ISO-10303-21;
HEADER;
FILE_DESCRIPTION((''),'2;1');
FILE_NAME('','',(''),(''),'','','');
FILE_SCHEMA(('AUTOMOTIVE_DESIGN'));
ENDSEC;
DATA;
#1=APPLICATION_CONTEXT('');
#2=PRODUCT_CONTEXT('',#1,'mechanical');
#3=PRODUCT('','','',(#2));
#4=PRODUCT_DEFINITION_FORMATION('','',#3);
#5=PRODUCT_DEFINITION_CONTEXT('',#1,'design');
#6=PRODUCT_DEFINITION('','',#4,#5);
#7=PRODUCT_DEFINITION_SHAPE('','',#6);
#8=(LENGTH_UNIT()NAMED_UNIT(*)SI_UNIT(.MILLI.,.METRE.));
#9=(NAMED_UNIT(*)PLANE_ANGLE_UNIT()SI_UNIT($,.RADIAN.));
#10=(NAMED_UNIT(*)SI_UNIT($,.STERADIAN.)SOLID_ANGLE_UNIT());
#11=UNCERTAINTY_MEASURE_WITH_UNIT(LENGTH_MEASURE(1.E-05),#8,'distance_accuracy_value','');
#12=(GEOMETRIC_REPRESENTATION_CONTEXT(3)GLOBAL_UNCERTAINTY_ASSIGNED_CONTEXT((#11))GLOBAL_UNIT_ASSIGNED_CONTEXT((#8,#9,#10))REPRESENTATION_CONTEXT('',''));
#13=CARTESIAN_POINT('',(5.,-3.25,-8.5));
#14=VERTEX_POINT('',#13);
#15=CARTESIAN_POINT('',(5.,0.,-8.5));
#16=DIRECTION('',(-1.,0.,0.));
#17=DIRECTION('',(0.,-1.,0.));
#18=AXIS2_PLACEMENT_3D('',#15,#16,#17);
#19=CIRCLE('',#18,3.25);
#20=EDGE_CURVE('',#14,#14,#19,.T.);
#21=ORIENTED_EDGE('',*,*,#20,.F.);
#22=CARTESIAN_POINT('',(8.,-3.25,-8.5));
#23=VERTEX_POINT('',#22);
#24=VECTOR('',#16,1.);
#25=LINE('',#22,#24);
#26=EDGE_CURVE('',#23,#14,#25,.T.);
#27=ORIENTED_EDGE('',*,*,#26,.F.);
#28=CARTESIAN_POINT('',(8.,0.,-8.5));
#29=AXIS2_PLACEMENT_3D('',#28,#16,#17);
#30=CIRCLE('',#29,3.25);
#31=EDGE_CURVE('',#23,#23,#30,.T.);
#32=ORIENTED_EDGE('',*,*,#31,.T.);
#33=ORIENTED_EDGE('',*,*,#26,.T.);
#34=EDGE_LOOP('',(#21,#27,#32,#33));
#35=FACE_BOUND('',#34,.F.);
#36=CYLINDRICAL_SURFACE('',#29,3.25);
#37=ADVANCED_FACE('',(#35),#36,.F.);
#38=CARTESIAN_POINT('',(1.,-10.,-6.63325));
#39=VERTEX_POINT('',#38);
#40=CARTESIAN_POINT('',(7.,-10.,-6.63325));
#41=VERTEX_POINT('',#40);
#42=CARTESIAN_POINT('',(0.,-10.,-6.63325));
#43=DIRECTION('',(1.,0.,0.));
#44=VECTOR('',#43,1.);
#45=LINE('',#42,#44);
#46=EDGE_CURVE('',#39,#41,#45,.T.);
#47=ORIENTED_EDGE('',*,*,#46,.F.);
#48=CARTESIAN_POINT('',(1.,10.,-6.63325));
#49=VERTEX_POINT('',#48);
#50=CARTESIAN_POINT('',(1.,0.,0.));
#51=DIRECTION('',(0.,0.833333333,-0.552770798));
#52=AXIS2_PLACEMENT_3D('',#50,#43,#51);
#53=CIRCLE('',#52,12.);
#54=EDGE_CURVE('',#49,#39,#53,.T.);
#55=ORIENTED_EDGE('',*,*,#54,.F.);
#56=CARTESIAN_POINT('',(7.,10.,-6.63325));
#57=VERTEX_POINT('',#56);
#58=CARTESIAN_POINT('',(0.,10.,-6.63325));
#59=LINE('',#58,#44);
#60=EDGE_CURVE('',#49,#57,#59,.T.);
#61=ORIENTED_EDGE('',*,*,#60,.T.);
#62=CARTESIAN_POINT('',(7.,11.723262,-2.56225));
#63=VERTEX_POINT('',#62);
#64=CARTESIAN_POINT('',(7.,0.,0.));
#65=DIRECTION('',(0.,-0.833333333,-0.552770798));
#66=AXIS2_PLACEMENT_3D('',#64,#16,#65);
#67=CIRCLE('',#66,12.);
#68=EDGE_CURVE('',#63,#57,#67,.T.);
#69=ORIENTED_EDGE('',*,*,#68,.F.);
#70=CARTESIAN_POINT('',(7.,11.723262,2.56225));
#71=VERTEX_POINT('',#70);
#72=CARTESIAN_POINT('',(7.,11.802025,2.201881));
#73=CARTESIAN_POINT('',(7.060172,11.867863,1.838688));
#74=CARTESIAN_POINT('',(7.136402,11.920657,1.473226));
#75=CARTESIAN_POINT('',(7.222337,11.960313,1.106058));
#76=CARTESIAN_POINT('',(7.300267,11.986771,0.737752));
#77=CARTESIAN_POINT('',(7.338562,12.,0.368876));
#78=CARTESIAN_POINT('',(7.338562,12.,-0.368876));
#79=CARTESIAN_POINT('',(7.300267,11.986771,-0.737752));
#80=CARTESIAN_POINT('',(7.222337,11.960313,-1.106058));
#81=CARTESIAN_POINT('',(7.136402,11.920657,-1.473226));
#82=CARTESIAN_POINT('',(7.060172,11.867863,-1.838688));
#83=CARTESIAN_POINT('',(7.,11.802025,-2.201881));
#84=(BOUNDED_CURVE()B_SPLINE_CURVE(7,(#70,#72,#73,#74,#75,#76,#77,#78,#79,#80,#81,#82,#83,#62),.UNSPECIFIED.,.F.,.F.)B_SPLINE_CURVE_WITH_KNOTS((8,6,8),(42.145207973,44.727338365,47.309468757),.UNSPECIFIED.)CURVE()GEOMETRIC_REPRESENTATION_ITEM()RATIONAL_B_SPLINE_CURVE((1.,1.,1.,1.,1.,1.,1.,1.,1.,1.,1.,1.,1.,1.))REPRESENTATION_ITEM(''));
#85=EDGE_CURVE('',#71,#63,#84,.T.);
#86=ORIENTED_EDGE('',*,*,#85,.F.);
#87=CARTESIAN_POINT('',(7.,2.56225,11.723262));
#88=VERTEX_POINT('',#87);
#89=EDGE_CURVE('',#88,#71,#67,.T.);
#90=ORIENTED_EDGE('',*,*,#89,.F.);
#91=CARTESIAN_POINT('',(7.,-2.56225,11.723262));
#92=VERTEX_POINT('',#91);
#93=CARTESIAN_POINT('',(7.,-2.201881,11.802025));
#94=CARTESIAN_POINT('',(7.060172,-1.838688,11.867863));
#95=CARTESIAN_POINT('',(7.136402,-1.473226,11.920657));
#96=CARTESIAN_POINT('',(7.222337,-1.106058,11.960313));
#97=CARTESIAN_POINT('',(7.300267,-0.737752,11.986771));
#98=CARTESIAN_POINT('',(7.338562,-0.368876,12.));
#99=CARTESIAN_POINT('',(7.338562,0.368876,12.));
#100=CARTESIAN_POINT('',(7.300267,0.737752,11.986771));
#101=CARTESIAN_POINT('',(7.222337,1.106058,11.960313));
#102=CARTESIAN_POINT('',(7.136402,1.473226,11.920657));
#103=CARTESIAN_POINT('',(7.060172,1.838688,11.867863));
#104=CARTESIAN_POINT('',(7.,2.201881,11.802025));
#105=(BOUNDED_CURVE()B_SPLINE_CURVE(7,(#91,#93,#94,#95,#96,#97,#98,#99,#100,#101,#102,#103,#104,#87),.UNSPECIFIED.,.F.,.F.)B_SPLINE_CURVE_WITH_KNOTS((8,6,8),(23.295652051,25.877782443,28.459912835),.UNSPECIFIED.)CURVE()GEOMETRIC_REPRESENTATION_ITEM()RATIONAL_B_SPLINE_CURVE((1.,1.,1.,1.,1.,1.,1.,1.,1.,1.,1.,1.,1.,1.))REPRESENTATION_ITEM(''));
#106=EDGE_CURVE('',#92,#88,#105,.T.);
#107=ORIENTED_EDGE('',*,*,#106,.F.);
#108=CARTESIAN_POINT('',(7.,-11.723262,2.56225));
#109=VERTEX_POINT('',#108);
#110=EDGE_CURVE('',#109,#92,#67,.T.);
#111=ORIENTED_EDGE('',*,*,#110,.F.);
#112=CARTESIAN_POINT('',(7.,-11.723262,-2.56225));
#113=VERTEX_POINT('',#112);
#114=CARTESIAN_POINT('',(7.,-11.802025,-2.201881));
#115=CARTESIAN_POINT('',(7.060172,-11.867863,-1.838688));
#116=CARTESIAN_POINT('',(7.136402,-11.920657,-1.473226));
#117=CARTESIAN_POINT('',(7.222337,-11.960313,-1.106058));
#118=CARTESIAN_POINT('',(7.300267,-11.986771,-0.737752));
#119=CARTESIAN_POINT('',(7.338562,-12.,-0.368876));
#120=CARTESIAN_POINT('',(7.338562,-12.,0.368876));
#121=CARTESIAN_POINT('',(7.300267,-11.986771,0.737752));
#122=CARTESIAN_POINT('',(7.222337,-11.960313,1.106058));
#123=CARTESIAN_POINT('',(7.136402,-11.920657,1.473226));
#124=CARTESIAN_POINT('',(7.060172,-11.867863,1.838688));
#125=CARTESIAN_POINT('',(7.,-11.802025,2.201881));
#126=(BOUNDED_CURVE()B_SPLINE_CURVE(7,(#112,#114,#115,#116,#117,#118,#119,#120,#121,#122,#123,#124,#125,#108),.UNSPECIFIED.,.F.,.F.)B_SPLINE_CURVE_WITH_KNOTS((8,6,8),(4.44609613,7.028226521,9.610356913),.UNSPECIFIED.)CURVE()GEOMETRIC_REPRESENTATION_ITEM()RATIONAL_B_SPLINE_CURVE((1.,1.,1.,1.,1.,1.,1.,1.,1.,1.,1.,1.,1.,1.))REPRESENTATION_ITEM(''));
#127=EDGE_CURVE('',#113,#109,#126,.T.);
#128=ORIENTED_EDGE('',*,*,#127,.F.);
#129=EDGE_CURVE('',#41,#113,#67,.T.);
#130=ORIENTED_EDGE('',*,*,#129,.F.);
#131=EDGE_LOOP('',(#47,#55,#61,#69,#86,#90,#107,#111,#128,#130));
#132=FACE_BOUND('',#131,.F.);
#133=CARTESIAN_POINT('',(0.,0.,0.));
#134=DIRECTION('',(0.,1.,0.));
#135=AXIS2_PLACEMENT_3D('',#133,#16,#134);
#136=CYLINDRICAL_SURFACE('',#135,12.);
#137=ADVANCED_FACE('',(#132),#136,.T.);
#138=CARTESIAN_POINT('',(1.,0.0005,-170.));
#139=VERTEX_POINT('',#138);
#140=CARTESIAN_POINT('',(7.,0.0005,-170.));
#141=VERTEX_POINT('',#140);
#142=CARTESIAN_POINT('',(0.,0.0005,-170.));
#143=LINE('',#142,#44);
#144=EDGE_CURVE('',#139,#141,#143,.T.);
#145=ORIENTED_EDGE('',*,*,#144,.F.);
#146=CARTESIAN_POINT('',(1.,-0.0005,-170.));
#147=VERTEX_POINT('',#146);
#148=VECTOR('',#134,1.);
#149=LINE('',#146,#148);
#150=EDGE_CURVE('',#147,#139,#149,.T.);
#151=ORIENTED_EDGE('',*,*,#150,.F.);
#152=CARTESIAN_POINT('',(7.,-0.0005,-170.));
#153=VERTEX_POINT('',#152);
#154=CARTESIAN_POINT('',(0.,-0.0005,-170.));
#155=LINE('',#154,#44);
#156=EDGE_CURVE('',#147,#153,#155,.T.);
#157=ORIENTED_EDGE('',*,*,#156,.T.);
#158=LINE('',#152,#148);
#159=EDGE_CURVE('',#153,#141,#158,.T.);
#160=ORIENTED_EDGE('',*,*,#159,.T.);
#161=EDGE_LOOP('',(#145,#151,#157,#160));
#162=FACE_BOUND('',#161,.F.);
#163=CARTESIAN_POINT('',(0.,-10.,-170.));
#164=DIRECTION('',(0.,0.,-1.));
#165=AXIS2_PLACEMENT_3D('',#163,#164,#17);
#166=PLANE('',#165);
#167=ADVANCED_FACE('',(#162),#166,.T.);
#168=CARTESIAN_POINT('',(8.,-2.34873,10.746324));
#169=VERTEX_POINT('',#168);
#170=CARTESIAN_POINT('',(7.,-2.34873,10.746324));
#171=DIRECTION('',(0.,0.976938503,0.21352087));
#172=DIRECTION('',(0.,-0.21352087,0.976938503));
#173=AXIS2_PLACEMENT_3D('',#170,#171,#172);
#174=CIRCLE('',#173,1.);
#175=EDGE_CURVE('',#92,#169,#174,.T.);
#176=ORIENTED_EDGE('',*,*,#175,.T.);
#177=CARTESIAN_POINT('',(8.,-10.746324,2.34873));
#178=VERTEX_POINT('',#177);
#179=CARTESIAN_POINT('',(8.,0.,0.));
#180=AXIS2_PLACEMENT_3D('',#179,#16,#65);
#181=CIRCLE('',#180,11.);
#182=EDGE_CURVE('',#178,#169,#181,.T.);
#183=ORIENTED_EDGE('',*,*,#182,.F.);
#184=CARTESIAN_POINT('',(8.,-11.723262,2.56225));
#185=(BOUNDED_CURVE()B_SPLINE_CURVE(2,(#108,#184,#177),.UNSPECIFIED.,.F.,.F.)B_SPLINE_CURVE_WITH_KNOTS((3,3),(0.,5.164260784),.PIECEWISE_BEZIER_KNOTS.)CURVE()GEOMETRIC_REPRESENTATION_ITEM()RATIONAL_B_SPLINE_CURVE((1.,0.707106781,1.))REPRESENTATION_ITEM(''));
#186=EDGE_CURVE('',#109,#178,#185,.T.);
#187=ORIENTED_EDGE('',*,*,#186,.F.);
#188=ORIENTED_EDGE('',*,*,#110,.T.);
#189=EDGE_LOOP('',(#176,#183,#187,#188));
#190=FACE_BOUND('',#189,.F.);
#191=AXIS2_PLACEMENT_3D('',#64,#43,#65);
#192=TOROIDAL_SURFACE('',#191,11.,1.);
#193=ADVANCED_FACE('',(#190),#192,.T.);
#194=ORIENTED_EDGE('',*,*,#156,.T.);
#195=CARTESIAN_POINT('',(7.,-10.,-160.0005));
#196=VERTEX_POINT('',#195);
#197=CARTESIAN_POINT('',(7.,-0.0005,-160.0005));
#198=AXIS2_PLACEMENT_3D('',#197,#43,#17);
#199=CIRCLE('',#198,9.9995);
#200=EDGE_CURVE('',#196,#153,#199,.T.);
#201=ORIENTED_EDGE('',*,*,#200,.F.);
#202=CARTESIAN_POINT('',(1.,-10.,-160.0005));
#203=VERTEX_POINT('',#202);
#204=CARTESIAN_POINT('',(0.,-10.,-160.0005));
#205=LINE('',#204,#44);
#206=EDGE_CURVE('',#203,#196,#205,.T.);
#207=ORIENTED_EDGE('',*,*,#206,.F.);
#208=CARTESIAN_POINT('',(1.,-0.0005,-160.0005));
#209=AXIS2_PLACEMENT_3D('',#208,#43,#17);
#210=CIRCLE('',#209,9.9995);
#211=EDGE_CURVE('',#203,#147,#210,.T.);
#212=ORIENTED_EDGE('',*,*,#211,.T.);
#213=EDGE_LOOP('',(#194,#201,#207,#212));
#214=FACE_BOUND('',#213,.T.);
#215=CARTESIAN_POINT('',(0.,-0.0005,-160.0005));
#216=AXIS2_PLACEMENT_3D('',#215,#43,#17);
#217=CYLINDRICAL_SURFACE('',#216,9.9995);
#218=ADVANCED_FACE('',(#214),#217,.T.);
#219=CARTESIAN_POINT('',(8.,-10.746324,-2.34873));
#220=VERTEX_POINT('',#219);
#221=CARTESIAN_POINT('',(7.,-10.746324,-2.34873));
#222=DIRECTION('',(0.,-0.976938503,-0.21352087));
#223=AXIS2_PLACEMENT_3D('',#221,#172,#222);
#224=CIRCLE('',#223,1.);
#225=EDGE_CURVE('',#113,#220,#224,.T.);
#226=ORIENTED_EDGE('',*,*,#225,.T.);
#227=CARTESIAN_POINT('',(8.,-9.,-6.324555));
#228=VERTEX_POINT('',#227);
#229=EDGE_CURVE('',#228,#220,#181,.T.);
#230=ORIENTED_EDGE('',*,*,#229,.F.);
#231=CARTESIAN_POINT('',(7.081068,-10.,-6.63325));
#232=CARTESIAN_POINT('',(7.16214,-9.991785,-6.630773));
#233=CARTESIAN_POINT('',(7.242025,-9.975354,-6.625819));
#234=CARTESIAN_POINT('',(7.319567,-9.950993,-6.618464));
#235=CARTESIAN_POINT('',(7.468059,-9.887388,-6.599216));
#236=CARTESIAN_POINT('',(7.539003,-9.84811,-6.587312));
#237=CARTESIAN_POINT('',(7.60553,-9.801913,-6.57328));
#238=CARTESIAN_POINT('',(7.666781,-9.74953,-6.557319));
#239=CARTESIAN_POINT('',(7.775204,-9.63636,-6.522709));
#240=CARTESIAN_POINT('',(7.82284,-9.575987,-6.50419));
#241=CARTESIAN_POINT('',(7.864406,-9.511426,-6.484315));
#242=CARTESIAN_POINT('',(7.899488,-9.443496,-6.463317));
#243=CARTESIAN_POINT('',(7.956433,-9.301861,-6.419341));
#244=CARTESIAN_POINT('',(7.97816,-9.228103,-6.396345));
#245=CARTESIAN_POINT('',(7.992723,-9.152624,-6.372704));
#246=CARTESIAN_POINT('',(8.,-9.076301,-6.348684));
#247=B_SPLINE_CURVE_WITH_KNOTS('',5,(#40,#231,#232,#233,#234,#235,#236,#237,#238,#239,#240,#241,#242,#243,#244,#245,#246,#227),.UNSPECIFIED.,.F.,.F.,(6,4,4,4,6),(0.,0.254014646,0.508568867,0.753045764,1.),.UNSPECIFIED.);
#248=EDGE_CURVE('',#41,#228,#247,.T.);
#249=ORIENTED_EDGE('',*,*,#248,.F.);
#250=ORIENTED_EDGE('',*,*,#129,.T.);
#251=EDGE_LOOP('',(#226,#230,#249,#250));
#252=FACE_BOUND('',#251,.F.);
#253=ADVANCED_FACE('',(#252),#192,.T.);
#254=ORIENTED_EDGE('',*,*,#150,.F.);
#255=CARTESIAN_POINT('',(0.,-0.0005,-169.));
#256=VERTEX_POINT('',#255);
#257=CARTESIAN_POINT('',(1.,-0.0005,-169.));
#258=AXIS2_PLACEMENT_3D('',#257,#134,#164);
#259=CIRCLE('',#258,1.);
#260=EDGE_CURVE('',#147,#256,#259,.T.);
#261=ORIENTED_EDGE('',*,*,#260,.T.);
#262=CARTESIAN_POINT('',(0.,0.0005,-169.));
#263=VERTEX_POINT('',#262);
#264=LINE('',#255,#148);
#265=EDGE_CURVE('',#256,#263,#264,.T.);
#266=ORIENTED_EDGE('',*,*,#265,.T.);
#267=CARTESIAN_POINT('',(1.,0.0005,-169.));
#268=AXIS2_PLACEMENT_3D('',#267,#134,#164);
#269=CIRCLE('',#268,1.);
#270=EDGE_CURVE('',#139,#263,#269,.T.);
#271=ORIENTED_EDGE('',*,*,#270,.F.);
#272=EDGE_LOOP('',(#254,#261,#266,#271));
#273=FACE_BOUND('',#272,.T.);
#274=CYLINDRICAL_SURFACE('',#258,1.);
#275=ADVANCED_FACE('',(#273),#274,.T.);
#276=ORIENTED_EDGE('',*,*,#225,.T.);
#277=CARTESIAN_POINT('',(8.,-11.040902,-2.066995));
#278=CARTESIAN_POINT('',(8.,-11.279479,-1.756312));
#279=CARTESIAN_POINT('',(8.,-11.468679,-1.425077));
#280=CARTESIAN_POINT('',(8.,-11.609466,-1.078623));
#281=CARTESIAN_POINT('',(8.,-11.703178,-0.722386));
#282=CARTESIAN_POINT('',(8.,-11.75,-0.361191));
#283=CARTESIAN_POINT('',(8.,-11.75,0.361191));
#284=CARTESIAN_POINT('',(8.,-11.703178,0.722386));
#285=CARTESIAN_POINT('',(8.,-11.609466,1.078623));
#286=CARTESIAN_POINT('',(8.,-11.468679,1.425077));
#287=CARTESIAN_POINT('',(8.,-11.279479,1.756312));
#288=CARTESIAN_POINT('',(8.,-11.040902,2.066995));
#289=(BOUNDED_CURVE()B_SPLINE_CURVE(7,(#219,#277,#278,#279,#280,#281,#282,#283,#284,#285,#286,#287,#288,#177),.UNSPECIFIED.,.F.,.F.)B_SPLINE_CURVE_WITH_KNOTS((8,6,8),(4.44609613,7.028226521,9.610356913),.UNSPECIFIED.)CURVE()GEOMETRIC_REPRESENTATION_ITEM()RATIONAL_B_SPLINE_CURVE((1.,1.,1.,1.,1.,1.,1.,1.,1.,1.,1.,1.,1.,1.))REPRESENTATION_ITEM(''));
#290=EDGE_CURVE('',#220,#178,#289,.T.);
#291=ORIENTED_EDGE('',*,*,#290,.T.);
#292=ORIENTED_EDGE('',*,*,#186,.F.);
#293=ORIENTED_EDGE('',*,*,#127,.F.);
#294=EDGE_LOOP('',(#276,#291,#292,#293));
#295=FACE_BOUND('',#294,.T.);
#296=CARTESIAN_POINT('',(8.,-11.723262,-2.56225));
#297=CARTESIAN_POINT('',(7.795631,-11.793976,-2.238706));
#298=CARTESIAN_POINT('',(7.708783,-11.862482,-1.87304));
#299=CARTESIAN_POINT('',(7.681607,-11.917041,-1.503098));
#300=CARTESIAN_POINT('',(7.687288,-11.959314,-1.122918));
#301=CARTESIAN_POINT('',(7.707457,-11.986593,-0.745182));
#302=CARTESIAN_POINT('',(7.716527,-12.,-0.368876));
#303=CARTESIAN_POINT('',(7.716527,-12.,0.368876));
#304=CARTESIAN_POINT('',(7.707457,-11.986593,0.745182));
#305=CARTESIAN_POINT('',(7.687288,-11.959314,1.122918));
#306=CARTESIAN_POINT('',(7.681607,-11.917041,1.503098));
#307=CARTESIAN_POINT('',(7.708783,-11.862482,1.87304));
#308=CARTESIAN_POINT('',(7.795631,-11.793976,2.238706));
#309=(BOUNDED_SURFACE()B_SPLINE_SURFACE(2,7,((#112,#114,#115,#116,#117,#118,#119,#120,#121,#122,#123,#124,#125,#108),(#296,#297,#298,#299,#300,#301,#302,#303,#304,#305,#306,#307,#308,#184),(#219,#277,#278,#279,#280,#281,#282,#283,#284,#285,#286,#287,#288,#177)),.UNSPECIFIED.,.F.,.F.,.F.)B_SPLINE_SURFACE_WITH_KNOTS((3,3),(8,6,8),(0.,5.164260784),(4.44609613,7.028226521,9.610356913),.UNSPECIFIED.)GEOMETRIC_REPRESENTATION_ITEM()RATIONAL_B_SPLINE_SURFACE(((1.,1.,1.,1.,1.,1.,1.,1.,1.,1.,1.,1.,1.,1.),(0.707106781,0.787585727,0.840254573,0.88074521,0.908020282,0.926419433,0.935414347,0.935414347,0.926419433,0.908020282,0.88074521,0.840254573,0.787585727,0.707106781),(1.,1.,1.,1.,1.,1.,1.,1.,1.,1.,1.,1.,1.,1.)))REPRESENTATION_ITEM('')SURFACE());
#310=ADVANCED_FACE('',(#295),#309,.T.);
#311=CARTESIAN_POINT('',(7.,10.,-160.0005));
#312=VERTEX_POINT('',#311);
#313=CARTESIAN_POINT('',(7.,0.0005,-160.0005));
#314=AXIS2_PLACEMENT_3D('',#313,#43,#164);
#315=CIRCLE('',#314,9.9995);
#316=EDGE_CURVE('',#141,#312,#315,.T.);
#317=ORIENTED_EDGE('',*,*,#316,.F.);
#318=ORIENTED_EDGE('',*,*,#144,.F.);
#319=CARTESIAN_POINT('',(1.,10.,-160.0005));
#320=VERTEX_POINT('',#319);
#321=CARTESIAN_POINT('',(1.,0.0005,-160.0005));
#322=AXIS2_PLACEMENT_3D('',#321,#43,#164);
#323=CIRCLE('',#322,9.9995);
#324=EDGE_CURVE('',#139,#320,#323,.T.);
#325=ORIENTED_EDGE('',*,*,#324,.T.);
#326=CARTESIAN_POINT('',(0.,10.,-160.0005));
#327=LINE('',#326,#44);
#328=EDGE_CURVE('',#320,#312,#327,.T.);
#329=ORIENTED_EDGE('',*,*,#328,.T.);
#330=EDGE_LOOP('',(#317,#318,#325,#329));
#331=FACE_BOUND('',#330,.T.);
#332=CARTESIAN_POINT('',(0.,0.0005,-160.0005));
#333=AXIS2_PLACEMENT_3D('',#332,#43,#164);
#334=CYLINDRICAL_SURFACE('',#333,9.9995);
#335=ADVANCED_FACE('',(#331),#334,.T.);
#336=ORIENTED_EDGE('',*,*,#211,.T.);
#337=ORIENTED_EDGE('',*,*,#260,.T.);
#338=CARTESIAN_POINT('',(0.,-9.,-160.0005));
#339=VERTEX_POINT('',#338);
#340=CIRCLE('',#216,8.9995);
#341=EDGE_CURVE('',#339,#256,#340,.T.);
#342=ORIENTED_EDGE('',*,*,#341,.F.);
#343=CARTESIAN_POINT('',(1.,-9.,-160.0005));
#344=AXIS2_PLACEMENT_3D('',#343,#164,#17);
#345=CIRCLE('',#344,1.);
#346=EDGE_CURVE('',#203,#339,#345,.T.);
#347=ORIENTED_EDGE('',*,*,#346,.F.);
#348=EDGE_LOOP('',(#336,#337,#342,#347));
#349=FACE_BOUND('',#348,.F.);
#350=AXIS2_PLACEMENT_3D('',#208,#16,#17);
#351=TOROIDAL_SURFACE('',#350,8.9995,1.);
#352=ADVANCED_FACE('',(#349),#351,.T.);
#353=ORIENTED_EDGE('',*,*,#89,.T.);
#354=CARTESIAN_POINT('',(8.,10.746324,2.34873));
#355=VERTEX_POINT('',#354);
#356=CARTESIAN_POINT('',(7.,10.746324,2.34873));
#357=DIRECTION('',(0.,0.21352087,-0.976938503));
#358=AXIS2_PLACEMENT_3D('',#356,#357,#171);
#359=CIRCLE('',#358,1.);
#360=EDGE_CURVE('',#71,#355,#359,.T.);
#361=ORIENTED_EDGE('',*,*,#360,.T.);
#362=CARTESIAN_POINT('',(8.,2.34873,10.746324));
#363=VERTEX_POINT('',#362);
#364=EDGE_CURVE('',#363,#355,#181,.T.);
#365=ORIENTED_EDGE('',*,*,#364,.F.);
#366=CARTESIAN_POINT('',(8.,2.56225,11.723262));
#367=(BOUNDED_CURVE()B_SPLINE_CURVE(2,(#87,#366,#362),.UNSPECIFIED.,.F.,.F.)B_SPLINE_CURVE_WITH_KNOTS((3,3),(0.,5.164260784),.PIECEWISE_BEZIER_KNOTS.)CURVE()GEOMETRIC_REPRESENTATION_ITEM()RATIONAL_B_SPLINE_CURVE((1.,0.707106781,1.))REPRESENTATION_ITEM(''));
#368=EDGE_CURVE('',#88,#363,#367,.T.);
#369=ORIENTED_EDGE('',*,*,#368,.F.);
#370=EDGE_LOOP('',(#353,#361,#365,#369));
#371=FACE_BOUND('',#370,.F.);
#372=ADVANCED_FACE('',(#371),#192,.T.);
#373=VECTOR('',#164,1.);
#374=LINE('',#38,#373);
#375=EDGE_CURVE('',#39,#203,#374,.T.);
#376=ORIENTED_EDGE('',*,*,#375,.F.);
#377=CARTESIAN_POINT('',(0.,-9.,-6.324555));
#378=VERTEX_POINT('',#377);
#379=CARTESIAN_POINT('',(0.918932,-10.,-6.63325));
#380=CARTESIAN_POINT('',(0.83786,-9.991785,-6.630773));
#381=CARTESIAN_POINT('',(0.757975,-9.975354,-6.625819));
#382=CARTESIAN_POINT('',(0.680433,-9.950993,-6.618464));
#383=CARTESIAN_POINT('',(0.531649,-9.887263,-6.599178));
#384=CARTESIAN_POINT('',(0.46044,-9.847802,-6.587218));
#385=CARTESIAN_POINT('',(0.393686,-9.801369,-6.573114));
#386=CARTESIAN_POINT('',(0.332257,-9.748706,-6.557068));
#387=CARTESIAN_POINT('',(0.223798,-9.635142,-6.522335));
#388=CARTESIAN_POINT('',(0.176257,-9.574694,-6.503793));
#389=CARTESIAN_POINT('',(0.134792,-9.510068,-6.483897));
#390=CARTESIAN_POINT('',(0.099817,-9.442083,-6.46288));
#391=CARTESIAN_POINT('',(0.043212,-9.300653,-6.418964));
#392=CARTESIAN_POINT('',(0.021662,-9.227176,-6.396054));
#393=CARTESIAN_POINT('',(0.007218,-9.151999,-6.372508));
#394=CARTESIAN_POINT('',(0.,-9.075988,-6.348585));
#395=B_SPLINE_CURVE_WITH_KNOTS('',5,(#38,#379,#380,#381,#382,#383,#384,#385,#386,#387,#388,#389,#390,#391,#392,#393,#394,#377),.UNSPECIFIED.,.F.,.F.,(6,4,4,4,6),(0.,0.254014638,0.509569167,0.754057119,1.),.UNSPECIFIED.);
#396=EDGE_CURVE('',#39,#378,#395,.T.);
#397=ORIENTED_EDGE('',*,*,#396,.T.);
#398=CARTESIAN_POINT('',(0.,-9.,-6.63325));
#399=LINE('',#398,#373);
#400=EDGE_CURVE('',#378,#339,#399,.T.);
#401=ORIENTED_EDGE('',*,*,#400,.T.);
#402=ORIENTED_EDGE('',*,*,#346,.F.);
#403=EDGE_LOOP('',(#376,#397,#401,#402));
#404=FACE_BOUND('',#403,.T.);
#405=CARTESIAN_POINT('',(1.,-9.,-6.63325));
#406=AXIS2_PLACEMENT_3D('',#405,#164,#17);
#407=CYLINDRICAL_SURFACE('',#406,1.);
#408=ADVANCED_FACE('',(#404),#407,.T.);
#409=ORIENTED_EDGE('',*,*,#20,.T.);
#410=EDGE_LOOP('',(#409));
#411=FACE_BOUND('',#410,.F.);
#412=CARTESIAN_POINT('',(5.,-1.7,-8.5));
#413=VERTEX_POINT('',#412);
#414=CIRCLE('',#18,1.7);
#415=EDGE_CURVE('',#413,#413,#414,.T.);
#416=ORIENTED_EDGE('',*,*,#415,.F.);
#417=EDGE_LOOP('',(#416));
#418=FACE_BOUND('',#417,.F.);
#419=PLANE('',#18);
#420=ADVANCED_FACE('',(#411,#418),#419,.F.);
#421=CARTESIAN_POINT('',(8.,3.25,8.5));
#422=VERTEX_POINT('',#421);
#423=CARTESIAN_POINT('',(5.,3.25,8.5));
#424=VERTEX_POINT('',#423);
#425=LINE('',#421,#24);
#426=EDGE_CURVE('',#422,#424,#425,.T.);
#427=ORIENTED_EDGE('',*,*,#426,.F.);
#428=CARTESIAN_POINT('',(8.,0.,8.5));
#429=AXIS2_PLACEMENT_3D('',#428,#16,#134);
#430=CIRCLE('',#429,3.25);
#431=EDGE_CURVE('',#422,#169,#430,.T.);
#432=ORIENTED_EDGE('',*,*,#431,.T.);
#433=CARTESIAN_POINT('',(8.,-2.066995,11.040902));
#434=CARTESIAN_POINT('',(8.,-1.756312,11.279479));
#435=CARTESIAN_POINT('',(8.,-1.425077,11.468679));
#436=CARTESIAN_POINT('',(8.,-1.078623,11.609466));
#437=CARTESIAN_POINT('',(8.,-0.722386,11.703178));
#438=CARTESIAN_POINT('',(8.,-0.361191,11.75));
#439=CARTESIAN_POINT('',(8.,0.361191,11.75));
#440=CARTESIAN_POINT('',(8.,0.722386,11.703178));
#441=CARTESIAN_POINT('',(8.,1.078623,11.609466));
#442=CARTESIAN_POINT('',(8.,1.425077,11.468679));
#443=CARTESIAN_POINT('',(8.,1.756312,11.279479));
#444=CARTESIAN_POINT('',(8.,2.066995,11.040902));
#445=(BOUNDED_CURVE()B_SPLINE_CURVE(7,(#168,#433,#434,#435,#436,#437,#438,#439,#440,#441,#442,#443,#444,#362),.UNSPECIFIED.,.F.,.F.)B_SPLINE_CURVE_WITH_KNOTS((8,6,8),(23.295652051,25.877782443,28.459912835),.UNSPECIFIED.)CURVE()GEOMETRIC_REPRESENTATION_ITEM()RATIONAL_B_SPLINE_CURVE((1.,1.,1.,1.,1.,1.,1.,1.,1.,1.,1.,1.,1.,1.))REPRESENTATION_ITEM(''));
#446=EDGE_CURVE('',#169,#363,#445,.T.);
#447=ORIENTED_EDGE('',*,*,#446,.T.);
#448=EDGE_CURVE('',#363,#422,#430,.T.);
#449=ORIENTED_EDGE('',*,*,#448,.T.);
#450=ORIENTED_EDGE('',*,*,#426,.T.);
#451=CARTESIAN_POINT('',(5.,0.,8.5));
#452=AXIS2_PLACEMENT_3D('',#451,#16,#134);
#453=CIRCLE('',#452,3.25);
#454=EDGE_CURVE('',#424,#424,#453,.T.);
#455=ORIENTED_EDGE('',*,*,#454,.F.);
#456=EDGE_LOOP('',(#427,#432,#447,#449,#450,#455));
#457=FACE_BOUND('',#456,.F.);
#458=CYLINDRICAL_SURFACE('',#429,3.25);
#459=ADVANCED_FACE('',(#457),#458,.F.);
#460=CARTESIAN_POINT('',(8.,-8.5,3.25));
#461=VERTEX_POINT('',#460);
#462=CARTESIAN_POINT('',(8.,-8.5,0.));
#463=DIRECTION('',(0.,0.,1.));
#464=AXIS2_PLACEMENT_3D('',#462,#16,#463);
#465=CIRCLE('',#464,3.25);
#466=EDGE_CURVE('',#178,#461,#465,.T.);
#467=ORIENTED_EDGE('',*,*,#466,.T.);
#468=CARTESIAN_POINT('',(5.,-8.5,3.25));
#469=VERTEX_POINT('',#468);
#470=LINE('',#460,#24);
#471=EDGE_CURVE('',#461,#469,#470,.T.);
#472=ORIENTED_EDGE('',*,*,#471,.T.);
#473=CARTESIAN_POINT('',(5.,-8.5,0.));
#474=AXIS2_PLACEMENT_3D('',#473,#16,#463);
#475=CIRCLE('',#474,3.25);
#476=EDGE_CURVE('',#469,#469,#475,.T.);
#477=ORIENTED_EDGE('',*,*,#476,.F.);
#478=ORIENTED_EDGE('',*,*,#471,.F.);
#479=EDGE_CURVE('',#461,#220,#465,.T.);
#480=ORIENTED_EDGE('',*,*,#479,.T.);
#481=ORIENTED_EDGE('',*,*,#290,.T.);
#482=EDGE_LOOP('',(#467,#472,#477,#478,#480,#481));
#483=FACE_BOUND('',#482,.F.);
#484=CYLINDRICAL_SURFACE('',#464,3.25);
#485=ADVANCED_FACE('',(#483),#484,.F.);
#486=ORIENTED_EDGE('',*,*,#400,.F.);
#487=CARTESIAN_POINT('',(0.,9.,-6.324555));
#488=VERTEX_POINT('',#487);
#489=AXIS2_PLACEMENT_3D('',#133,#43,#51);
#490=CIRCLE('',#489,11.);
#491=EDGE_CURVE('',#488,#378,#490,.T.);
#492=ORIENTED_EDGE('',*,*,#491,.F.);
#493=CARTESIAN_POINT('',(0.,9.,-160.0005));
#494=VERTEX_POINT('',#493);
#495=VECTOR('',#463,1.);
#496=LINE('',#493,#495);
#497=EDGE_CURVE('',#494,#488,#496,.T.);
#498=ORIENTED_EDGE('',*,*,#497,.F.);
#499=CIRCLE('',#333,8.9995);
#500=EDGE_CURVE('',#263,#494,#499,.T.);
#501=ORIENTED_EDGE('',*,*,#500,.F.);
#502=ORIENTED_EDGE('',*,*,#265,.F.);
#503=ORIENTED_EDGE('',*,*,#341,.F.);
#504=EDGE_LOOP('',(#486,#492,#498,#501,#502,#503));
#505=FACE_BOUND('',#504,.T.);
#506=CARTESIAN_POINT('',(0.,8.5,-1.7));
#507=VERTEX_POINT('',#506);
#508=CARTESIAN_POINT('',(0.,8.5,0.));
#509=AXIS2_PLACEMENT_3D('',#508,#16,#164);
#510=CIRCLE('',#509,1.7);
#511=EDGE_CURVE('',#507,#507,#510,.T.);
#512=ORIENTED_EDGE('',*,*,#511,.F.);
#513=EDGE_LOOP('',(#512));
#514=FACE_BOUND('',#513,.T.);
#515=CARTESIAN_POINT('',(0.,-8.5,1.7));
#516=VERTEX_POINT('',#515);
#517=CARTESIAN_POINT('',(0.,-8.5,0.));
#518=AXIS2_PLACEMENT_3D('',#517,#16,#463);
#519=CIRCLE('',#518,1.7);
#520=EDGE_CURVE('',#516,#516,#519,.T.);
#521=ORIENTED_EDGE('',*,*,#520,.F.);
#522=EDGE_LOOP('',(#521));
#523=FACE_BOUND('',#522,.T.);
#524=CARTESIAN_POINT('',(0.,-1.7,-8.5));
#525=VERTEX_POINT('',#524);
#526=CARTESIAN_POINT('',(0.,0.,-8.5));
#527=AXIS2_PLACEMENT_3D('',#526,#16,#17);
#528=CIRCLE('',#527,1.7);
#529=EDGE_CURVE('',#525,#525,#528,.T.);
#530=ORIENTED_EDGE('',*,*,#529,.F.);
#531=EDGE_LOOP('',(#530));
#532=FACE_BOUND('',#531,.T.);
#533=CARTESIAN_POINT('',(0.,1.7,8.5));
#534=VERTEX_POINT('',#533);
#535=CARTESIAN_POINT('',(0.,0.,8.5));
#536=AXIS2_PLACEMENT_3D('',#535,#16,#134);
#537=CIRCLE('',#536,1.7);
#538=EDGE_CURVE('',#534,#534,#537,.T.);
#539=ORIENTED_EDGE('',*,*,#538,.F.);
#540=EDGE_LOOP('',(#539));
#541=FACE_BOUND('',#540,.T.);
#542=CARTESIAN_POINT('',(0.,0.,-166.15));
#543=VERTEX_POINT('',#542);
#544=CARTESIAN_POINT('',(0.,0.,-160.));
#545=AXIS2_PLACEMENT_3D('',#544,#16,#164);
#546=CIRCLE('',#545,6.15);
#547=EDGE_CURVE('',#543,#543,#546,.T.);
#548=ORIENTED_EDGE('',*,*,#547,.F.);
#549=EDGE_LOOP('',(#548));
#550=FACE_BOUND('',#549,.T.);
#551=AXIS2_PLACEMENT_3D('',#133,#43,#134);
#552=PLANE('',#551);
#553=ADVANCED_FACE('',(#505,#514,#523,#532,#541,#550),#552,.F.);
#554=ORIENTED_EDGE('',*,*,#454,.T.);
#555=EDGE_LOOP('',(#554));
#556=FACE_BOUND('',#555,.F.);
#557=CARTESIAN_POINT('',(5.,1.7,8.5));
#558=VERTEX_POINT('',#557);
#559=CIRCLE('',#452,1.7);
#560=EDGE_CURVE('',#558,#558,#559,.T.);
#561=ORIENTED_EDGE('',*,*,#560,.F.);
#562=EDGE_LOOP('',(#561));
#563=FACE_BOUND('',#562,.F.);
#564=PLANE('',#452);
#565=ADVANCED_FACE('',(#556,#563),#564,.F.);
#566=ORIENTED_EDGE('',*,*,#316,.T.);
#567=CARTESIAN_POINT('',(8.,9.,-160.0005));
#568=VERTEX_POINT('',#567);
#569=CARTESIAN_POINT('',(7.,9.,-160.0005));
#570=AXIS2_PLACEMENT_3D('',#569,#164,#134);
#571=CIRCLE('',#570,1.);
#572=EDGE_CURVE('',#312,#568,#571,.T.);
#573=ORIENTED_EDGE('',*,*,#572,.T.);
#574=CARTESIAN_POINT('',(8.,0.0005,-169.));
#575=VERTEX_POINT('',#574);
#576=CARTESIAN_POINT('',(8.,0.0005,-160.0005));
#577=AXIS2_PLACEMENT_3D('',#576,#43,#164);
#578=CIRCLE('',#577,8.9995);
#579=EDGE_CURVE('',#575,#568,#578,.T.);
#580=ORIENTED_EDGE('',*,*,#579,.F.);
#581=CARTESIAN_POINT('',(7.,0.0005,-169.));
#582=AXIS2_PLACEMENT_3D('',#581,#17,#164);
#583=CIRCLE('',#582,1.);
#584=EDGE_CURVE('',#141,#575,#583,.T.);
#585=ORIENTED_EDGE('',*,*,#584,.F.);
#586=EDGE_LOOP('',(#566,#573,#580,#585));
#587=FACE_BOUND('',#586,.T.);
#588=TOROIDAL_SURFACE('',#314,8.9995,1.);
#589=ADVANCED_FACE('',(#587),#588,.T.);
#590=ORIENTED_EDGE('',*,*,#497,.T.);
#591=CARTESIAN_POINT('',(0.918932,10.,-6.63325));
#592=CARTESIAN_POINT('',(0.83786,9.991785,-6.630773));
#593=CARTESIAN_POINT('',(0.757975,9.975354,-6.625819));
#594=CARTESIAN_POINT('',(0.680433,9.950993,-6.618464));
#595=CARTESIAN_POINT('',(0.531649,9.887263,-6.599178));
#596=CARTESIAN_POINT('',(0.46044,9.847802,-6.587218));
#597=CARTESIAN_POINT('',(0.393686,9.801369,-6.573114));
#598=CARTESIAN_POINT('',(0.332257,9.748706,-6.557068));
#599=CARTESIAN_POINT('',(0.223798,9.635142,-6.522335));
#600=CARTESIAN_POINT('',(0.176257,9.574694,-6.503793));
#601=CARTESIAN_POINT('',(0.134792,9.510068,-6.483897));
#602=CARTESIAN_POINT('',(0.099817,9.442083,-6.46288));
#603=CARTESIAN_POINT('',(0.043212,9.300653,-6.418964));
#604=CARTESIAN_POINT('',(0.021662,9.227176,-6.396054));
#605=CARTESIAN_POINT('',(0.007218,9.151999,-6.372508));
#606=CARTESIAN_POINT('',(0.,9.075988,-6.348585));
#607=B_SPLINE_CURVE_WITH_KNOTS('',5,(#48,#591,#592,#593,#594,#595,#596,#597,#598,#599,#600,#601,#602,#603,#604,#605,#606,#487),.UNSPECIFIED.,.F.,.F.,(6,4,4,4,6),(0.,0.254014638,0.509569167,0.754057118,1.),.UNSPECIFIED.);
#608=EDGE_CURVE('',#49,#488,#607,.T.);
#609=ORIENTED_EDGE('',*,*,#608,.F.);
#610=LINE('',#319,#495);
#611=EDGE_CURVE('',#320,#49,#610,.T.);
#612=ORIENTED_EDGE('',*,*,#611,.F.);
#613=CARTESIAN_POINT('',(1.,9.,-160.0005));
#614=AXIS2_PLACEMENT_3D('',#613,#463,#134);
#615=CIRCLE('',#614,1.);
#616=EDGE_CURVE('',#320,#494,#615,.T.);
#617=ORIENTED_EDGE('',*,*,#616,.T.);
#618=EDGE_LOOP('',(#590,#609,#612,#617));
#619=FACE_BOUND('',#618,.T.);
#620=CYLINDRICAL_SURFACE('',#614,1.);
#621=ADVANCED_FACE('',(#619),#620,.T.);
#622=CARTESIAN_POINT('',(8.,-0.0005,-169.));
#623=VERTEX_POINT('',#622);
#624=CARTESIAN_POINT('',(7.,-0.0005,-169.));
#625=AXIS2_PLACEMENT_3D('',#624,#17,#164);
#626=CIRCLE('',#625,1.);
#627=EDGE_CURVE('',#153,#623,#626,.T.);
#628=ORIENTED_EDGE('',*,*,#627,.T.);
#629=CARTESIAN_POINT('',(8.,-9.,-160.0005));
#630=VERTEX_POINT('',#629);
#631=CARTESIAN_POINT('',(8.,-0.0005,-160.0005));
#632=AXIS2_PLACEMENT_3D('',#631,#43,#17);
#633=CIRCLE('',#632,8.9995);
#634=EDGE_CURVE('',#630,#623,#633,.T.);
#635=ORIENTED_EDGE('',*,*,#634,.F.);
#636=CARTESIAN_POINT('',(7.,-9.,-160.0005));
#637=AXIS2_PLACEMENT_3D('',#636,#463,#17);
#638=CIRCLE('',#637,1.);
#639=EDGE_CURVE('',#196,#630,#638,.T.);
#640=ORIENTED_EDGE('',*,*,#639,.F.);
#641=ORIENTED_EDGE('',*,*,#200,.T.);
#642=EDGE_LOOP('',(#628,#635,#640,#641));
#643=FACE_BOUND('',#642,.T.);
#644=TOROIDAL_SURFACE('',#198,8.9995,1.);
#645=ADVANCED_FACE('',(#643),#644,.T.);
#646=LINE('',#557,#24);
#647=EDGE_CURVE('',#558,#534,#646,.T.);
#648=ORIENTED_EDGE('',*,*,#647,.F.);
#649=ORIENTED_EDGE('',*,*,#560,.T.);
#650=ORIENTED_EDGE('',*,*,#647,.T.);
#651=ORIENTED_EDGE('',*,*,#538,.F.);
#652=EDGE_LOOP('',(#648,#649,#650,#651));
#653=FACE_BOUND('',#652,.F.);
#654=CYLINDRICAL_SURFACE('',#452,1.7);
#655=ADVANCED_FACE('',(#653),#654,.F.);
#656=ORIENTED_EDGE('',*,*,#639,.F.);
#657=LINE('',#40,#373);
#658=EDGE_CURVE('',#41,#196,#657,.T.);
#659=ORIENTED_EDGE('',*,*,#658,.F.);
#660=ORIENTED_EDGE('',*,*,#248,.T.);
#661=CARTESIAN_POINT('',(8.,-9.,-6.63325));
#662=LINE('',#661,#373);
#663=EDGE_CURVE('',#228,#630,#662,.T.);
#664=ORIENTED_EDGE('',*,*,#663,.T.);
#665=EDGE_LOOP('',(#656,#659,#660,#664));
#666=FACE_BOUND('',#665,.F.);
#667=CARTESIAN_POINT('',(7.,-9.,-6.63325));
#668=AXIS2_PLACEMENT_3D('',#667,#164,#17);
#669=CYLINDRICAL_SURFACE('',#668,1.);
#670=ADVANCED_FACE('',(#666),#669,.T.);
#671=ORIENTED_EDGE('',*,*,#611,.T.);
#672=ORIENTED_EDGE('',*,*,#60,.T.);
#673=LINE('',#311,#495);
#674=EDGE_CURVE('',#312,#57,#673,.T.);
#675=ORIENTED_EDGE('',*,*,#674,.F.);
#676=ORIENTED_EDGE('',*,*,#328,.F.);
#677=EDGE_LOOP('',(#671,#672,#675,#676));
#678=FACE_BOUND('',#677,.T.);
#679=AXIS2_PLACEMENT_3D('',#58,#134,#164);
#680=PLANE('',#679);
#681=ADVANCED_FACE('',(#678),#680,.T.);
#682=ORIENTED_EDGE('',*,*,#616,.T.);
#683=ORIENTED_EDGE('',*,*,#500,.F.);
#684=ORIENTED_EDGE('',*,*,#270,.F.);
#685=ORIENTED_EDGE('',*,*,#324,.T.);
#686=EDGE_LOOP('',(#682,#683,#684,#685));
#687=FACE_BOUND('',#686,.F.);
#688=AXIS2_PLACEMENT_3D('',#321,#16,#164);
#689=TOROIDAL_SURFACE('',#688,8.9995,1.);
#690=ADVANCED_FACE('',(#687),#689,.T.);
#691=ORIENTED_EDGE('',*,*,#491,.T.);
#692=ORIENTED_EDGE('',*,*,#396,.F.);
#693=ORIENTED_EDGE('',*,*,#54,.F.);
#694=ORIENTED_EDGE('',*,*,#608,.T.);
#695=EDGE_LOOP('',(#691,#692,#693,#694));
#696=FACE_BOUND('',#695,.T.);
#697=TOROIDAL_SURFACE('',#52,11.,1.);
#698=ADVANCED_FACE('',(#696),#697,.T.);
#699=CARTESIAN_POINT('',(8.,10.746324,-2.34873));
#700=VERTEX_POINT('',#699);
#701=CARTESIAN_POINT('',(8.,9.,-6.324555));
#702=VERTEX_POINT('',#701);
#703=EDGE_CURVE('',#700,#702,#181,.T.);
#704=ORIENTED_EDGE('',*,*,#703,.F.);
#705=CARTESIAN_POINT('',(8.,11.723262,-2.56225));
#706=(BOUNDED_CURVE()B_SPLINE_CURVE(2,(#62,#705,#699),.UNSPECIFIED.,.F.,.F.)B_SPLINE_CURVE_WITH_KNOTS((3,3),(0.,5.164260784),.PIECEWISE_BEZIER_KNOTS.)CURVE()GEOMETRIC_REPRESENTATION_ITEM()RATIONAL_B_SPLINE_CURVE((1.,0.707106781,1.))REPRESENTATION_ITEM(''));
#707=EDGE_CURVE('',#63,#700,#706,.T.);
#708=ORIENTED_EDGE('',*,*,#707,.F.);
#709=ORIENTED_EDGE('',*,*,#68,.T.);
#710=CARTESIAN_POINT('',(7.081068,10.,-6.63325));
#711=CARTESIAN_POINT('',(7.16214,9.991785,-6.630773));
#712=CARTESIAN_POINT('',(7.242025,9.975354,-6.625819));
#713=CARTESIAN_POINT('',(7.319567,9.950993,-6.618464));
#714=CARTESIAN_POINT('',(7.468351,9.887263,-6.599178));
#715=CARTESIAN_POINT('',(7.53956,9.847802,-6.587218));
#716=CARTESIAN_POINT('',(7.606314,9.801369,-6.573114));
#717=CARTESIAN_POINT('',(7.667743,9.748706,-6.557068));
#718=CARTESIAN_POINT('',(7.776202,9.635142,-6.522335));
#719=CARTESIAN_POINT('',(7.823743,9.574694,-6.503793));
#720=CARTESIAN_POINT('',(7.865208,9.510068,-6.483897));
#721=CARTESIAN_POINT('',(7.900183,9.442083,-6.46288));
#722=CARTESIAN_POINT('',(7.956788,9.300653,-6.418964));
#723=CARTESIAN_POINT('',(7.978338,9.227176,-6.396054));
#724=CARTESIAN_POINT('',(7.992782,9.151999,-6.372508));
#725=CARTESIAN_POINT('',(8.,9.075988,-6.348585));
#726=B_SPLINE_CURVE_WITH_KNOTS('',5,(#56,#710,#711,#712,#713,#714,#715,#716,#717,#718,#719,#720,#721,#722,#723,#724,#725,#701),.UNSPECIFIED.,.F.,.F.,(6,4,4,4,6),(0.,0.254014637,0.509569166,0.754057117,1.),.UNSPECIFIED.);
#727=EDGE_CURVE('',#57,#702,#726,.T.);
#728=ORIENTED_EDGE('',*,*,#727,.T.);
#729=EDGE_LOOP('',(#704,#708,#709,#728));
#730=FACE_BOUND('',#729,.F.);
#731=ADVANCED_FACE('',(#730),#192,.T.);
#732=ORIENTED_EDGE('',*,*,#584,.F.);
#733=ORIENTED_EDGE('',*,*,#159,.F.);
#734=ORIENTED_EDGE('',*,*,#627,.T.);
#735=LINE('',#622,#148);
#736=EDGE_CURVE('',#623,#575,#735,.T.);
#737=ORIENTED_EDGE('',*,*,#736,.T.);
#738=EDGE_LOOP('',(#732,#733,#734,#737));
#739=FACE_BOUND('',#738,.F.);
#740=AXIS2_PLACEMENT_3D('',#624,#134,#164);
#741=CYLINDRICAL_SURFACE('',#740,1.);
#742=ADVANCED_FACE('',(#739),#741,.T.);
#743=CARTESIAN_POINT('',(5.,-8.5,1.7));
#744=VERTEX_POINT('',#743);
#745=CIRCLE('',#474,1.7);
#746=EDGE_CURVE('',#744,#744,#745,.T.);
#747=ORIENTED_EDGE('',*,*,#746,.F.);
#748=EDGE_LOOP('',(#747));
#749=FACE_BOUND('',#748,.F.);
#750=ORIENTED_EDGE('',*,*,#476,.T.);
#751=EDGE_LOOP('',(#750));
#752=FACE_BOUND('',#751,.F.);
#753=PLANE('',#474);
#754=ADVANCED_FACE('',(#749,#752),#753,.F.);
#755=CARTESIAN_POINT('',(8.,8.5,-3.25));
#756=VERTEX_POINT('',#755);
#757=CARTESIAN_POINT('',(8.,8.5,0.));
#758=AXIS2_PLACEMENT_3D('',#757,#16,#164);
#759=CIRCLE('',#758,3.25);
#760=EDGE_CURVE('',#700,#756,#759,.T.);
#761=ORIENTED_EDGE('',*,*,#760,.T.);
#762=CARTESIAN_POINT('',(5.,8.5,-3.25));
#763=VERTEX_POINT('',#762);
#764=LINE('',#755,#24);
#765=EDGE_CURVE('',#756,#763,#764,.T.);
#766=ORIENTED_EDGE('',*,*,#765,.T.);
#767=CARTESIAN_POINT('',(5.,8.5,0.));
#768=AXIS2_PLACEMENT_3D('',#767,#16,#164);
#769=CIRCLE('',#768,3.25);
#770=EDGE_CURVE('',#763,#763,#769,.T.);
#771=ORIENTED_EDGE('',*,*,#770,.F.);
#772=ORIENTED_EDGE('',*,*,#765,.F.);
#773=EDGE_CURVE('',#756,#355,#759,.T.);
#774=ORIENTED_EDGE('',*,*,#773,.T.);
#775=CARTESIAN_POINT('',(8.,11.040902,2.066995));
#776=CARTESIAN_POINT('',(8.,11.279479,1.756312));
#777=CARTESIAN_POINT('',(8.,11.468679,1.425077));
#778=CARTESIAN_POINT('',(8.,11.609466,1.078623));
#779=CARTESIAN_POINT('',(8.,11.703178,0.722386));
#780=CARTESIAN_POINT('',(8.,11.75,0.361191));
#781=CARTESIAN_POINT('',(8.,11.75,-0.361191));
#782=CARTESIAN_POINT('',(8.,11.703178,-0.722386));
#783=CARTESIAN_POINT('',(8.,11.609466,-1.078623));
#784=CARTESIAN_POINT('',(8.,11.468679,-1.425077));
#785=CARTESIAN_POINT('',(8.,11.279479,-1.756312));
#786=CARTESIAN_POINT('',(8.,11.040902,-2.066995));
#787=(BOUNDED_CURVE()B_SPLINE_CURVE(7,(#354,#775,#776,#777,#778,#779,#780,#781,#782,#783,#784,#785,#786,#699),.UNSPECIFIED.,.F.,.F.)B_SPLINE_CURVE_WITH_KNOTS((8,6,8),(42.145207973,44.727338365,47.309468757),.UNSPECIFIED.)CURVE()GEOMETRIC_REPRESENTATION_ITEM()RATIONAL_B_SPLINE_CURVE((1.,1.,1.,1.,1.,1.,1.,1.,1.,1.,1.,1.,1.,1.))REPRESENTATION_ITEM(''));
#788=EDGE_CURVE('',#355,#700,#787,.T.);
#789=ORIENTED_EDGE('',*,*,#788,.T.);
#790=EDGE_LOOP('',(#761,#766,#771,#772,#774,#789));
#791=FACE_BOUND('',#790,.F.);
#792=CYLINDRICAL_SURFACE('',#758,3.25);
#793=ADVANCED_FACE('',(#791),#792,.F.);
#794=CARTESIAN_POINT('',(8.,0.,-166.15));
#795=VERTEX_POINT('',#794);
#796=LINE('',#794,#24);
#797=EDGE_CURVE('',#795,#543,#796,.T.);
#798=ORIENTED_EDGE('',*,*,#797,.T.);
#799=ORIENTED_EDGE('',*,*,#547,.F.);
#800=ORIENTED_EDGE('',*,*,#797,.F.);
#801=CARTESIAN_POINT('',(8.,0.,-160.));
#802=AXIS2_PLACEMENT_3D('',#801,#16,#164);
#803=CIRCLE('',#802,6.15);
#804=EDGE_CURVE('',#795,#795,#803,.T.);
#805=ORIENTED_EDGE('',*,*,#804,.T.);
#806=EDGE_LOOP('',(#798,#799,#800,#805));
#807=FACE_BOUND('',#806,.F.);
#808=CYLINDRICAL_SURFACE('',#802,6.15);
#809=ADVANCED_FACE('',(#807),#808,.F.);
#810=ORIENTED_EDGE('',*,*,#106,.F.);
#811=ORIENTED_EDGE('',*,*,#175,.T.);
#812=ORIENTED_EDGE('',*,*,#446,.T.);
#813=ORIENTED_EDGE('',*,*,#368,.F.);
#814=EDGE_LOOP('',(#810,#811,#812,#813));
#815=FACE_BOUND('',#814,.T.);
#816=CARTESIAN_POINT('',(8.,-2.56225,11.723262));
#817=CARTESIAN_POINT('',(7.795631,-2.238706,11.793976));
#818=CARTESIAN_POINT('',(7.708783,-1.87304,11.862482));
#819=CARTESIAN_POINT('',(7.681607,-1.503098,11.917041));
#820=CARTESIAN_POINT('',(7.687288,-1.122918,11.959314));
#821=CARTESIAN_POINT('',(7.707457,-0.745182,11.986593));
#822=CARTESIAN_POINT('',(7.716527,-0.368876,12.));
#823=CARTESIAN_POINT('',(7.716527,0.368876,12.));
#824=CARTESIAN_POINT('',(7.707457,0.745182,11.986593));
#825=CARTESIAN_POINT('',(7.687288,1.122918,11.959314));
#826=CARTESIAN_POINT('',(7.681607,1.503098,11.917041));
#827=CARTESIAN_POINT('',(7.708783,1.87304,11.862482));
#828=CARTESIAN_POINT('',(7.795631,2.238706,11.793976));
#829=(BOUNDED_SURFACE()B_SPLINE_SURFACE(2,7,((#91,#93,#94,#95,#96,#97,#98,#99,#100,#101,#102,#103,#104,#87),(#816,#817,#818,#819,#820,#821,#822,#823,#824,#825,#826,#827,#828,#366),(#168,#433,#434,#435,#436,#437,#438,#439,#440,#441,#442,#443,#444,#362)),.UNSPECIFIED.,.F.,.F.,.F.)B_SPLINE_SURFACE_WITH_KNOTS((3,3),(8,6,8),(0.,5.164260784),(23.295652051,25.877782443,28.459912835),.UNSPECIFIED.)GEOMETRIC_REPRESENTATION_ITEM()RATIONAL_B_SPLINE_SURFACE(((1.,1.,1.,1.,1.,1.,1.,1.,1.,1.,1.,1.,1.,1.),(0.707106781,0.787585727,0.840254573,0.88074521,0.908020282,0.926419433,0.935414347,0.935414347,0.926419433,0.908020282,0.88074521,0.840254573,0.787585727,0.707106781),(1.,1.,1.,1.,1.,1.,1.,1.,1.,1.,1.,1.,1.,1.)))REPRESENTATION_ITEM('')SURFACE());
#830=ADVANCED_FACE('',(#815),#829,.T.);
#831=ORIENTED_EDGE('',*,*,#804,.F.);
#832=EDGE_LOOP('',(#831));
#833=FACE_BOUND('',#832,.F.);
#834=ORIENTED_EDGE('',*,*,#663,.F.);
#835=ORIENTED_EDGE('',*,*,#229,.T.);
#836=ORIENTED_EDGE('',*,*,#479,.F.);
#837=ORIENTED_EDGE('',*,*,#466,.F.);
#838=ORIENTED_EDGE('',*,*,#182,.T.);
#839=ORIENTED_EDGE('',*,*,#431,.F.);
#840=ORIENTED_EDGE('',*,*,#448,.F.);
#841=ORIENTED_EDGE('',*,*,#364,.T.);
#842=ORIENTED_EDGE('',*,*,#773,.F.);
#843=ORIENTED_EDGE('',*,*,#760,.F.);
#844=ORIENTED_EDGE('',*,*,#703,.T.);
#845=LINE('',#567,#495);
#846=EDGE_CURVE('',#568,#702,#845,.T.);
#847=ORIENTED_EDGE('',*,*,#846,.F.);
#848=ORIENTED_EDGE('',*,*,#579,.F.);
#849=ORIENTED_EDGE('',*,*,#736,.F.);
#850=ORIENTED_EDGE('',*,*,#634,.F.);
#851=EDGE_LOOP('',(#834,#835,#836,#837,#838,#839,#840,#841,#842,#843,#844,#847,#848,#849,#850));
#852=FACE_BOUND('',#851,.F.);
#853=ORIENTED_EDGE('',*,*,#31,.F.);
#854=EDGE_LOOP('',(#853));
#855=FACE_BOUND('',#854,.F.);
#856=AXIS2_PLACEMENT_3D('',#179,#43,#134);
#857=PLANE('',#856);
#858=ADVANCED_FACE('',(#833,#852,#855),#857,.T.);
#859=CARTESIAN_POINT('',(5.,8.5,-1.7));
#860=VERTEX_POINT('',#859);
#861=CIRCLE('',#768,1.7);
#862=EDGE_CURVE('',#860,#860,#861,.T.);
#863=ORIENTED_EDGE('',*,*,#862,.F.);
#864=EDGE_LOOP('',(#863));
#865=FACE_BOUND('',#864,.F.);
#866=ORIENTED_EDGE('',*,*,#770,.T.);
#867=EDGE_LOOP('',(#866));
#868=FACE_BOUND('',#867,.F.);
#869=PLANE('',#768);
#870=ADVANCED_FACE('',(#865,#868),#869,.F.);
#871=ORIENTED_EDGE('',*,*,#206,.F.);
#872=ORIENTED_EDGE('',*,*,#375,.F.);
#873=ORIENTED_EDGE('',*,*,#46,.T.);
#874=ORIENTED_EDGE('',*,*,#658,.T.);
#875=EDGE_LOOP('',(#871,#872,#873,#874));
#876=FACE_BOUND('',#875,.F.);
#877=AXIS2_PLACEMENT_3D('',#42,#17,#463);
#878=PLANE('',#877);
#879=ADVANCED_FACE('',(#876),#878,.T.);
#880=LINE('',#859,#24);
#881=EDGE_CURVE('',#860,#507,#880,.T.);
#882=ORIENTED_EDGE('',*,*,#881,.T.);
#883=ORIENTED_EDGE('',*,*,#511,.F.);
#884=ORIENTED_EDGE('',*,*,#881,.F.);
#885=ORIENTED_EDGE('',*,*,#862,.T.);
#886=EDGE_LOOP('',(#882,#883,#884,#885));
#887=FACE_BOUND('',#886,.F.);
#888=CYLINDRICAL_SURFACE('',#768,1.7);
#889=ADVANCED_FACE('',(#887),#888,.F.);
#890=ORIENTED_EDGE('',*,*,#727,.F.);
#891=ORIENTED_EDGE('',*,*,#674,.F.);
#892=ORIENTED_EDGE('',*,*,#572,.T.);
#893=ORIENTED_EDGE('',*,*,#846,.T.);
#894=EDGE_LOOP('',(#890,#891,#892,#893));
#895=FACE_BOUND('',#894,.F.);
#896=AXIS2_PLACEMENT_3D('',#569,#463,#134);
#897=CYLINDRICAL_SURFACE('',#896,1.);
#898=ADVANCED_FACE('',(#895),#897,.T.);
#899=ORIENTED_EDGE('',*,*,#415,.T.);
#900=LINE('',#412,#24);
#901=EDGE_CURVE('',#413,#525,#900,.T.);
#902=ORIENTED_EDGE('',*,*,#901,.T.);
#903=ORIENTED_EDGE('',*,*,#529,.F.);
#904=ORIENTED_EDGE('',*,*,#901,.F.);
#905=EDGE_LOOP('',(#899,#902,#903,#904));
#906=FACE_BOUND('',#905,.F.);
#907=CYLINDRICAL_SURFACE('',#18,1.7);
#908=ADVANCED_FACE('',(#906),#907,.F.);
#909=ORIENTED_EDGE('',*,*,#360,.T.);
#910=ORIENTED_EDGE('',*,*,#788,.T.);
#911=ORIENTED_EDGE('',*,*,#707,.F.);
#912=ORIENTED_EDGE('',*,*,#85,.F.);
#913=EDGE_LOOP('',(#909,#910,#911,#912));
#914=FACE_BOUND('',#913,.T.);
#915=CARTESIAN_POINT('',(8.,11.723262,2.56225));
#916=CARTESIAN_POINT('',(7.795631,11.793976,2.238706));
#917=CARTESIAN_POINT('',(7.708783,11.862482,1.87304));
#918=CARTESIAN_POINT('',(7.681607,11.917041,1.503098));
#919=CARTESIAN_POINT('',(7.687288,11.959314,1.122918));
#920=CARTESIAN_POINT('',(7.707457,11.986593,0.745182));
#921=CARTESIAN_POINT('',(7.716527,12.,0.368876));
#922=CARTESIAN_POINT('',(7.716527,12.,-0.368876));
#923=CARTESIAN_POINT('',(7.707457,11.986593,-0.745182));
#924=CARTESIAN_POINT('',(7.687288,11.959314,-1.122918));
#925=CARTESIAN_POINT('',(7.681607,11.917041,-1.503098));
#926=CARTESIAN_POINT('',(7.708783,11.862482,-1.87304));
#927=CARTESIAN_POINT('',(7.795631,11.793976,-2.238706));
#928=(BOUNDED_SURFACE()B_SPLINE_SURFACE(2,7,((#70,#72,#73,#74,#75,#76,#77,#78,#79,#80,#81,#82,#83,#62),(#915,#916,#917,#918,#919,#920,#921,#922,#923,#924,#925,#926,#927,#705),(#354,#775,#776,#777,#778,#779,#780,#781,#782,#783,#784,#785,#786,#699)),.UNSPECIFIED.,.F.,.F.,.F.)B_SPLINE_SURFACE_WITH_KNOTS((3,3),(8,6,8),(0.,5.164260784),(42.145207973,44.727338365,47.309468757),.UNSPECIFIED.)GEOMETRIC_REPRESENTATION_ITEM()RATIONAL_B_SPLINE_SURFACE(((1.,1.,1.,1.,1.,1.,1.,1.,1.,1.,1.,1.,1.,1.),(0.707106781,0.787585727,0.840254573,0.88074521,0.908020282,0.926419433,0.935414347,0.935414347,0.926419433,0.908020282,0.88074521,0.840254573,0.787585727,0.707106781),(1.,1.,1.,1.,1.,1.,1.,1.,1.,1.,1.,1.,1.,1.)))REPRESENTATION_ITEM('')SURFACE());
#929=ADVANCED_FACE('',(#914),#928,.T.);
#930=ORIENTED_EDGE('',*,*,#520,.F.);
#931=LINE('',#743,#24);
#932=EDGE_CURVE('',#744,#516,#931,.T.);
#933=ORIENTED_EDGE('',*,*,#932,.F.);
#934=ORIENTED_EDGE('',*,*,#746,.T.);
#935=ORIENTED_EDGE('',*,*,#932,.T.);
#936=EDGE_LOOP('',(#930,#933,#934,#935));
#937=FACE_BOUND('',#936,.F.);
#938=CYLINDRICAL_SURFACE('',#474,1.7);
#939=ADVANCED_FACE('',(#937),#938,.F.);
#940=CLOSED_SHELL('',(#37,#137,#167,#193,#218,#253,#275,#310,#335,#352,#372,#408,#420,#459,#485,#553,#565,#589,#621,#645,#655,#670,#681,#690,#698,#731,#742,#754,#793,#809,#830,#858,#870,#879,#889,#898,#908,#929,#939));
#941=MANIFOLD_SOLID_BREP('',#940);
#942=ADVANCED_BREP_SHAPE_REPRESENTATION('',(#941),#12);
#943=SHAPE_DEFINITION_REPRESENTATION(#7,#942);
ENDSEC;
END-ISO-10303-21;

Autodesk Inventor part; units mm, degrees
ref_plane "YZ Plane" through (0, 0, 0) normal (1, 0, 0) x (0, 1, 0)
ref_plane "XZ Plane" through (0, 0, 0) normal (0, 1, 0) x (-1, 0, 0)
ref_plane "XY Plane" through (0, 0, 0) normal (0, 0, 1) x (1, 0, 0)
sketch "スケッチ1" plane through (0, 0, 0) normal (1, 0, 0) x (0, 1, 0)
  circle A0 centre (0, 0) radius 12
  line L0 (0, 0) -> (10, 0)
  line L1 (10, 0) -> (10, -170)
  line L2 (10, -170) -> (0, -170)
  line L3 (0, -170) -> (0, 0)
  point P0 (10, -6.6332)
  point P1 (0, -12)
  dimension "d0" = 24
  dimension "d1" = 170
  dimension "d2" = 10
extrude "押し出し1" add sketch "スケッチ1" along normal blind 8 contours A0 L1 L0 L3 | L3 L0 L1 A0
sketch "スケッチ2" plane through (8, 0, 0) normal (1, 0, 0) x (0, 0, -1)
  circle A0 centre (0, 0) radius 8.5
  point P0 (0, 8.5)
  dimension "d7" = 17
hole "穴1" at (8, 8.5, 0) direction (-1, 0, 0) diameter 3.4 end through all counterbore diameter 6.5 counterbore depth 3 clearance for "Socket Head Cap Screw" size "M3" standard "Ansi Metric M Profile"
pattern_circular "円形状パターン1" count 4 over 360 about axis through (0, 0, 0) along (1, 0, 0) of "穴1"
extrude "押し出し2" add sketch "スケッチ1" along normal blind 8 contours A0 L1 L2 L3
mirror "ミラー1" about plane through (0, 0, 0) normal (0, 1, 0) of "押し出し2"
sketch "スケッチ4" plane through (8, 0, 0) normal (1, 0, 0) x (0, 0, -1)
  line L0 (170, 10) -> (170, -10) projected
  point P0 (0, 0)
  point P1 (160, 0)
  dimension "d23" = 10
hole "穴2" at (8, 0, -160) direction (-1, 0, 0) diameter 12.3 end through all
fillet "フィレット1" radius 10 2 edges at (4, 10, -170) (4, -10, -170)
fillet "フィレット2" radius 1 6 edges at (8, -10, -83.3169) (8, 10, -83.3169) (8, 0, 12) (0, -10, -83.3169) (0, 10, -83.3169) (0, 0, 12)
sketch "スケッチ3" plane through (8, 0, 0) normal (1, 0, 0) x (0, 0, -1)
  point P0 (0, 0)
properties part number "base5" material "ABS プラスチック"
